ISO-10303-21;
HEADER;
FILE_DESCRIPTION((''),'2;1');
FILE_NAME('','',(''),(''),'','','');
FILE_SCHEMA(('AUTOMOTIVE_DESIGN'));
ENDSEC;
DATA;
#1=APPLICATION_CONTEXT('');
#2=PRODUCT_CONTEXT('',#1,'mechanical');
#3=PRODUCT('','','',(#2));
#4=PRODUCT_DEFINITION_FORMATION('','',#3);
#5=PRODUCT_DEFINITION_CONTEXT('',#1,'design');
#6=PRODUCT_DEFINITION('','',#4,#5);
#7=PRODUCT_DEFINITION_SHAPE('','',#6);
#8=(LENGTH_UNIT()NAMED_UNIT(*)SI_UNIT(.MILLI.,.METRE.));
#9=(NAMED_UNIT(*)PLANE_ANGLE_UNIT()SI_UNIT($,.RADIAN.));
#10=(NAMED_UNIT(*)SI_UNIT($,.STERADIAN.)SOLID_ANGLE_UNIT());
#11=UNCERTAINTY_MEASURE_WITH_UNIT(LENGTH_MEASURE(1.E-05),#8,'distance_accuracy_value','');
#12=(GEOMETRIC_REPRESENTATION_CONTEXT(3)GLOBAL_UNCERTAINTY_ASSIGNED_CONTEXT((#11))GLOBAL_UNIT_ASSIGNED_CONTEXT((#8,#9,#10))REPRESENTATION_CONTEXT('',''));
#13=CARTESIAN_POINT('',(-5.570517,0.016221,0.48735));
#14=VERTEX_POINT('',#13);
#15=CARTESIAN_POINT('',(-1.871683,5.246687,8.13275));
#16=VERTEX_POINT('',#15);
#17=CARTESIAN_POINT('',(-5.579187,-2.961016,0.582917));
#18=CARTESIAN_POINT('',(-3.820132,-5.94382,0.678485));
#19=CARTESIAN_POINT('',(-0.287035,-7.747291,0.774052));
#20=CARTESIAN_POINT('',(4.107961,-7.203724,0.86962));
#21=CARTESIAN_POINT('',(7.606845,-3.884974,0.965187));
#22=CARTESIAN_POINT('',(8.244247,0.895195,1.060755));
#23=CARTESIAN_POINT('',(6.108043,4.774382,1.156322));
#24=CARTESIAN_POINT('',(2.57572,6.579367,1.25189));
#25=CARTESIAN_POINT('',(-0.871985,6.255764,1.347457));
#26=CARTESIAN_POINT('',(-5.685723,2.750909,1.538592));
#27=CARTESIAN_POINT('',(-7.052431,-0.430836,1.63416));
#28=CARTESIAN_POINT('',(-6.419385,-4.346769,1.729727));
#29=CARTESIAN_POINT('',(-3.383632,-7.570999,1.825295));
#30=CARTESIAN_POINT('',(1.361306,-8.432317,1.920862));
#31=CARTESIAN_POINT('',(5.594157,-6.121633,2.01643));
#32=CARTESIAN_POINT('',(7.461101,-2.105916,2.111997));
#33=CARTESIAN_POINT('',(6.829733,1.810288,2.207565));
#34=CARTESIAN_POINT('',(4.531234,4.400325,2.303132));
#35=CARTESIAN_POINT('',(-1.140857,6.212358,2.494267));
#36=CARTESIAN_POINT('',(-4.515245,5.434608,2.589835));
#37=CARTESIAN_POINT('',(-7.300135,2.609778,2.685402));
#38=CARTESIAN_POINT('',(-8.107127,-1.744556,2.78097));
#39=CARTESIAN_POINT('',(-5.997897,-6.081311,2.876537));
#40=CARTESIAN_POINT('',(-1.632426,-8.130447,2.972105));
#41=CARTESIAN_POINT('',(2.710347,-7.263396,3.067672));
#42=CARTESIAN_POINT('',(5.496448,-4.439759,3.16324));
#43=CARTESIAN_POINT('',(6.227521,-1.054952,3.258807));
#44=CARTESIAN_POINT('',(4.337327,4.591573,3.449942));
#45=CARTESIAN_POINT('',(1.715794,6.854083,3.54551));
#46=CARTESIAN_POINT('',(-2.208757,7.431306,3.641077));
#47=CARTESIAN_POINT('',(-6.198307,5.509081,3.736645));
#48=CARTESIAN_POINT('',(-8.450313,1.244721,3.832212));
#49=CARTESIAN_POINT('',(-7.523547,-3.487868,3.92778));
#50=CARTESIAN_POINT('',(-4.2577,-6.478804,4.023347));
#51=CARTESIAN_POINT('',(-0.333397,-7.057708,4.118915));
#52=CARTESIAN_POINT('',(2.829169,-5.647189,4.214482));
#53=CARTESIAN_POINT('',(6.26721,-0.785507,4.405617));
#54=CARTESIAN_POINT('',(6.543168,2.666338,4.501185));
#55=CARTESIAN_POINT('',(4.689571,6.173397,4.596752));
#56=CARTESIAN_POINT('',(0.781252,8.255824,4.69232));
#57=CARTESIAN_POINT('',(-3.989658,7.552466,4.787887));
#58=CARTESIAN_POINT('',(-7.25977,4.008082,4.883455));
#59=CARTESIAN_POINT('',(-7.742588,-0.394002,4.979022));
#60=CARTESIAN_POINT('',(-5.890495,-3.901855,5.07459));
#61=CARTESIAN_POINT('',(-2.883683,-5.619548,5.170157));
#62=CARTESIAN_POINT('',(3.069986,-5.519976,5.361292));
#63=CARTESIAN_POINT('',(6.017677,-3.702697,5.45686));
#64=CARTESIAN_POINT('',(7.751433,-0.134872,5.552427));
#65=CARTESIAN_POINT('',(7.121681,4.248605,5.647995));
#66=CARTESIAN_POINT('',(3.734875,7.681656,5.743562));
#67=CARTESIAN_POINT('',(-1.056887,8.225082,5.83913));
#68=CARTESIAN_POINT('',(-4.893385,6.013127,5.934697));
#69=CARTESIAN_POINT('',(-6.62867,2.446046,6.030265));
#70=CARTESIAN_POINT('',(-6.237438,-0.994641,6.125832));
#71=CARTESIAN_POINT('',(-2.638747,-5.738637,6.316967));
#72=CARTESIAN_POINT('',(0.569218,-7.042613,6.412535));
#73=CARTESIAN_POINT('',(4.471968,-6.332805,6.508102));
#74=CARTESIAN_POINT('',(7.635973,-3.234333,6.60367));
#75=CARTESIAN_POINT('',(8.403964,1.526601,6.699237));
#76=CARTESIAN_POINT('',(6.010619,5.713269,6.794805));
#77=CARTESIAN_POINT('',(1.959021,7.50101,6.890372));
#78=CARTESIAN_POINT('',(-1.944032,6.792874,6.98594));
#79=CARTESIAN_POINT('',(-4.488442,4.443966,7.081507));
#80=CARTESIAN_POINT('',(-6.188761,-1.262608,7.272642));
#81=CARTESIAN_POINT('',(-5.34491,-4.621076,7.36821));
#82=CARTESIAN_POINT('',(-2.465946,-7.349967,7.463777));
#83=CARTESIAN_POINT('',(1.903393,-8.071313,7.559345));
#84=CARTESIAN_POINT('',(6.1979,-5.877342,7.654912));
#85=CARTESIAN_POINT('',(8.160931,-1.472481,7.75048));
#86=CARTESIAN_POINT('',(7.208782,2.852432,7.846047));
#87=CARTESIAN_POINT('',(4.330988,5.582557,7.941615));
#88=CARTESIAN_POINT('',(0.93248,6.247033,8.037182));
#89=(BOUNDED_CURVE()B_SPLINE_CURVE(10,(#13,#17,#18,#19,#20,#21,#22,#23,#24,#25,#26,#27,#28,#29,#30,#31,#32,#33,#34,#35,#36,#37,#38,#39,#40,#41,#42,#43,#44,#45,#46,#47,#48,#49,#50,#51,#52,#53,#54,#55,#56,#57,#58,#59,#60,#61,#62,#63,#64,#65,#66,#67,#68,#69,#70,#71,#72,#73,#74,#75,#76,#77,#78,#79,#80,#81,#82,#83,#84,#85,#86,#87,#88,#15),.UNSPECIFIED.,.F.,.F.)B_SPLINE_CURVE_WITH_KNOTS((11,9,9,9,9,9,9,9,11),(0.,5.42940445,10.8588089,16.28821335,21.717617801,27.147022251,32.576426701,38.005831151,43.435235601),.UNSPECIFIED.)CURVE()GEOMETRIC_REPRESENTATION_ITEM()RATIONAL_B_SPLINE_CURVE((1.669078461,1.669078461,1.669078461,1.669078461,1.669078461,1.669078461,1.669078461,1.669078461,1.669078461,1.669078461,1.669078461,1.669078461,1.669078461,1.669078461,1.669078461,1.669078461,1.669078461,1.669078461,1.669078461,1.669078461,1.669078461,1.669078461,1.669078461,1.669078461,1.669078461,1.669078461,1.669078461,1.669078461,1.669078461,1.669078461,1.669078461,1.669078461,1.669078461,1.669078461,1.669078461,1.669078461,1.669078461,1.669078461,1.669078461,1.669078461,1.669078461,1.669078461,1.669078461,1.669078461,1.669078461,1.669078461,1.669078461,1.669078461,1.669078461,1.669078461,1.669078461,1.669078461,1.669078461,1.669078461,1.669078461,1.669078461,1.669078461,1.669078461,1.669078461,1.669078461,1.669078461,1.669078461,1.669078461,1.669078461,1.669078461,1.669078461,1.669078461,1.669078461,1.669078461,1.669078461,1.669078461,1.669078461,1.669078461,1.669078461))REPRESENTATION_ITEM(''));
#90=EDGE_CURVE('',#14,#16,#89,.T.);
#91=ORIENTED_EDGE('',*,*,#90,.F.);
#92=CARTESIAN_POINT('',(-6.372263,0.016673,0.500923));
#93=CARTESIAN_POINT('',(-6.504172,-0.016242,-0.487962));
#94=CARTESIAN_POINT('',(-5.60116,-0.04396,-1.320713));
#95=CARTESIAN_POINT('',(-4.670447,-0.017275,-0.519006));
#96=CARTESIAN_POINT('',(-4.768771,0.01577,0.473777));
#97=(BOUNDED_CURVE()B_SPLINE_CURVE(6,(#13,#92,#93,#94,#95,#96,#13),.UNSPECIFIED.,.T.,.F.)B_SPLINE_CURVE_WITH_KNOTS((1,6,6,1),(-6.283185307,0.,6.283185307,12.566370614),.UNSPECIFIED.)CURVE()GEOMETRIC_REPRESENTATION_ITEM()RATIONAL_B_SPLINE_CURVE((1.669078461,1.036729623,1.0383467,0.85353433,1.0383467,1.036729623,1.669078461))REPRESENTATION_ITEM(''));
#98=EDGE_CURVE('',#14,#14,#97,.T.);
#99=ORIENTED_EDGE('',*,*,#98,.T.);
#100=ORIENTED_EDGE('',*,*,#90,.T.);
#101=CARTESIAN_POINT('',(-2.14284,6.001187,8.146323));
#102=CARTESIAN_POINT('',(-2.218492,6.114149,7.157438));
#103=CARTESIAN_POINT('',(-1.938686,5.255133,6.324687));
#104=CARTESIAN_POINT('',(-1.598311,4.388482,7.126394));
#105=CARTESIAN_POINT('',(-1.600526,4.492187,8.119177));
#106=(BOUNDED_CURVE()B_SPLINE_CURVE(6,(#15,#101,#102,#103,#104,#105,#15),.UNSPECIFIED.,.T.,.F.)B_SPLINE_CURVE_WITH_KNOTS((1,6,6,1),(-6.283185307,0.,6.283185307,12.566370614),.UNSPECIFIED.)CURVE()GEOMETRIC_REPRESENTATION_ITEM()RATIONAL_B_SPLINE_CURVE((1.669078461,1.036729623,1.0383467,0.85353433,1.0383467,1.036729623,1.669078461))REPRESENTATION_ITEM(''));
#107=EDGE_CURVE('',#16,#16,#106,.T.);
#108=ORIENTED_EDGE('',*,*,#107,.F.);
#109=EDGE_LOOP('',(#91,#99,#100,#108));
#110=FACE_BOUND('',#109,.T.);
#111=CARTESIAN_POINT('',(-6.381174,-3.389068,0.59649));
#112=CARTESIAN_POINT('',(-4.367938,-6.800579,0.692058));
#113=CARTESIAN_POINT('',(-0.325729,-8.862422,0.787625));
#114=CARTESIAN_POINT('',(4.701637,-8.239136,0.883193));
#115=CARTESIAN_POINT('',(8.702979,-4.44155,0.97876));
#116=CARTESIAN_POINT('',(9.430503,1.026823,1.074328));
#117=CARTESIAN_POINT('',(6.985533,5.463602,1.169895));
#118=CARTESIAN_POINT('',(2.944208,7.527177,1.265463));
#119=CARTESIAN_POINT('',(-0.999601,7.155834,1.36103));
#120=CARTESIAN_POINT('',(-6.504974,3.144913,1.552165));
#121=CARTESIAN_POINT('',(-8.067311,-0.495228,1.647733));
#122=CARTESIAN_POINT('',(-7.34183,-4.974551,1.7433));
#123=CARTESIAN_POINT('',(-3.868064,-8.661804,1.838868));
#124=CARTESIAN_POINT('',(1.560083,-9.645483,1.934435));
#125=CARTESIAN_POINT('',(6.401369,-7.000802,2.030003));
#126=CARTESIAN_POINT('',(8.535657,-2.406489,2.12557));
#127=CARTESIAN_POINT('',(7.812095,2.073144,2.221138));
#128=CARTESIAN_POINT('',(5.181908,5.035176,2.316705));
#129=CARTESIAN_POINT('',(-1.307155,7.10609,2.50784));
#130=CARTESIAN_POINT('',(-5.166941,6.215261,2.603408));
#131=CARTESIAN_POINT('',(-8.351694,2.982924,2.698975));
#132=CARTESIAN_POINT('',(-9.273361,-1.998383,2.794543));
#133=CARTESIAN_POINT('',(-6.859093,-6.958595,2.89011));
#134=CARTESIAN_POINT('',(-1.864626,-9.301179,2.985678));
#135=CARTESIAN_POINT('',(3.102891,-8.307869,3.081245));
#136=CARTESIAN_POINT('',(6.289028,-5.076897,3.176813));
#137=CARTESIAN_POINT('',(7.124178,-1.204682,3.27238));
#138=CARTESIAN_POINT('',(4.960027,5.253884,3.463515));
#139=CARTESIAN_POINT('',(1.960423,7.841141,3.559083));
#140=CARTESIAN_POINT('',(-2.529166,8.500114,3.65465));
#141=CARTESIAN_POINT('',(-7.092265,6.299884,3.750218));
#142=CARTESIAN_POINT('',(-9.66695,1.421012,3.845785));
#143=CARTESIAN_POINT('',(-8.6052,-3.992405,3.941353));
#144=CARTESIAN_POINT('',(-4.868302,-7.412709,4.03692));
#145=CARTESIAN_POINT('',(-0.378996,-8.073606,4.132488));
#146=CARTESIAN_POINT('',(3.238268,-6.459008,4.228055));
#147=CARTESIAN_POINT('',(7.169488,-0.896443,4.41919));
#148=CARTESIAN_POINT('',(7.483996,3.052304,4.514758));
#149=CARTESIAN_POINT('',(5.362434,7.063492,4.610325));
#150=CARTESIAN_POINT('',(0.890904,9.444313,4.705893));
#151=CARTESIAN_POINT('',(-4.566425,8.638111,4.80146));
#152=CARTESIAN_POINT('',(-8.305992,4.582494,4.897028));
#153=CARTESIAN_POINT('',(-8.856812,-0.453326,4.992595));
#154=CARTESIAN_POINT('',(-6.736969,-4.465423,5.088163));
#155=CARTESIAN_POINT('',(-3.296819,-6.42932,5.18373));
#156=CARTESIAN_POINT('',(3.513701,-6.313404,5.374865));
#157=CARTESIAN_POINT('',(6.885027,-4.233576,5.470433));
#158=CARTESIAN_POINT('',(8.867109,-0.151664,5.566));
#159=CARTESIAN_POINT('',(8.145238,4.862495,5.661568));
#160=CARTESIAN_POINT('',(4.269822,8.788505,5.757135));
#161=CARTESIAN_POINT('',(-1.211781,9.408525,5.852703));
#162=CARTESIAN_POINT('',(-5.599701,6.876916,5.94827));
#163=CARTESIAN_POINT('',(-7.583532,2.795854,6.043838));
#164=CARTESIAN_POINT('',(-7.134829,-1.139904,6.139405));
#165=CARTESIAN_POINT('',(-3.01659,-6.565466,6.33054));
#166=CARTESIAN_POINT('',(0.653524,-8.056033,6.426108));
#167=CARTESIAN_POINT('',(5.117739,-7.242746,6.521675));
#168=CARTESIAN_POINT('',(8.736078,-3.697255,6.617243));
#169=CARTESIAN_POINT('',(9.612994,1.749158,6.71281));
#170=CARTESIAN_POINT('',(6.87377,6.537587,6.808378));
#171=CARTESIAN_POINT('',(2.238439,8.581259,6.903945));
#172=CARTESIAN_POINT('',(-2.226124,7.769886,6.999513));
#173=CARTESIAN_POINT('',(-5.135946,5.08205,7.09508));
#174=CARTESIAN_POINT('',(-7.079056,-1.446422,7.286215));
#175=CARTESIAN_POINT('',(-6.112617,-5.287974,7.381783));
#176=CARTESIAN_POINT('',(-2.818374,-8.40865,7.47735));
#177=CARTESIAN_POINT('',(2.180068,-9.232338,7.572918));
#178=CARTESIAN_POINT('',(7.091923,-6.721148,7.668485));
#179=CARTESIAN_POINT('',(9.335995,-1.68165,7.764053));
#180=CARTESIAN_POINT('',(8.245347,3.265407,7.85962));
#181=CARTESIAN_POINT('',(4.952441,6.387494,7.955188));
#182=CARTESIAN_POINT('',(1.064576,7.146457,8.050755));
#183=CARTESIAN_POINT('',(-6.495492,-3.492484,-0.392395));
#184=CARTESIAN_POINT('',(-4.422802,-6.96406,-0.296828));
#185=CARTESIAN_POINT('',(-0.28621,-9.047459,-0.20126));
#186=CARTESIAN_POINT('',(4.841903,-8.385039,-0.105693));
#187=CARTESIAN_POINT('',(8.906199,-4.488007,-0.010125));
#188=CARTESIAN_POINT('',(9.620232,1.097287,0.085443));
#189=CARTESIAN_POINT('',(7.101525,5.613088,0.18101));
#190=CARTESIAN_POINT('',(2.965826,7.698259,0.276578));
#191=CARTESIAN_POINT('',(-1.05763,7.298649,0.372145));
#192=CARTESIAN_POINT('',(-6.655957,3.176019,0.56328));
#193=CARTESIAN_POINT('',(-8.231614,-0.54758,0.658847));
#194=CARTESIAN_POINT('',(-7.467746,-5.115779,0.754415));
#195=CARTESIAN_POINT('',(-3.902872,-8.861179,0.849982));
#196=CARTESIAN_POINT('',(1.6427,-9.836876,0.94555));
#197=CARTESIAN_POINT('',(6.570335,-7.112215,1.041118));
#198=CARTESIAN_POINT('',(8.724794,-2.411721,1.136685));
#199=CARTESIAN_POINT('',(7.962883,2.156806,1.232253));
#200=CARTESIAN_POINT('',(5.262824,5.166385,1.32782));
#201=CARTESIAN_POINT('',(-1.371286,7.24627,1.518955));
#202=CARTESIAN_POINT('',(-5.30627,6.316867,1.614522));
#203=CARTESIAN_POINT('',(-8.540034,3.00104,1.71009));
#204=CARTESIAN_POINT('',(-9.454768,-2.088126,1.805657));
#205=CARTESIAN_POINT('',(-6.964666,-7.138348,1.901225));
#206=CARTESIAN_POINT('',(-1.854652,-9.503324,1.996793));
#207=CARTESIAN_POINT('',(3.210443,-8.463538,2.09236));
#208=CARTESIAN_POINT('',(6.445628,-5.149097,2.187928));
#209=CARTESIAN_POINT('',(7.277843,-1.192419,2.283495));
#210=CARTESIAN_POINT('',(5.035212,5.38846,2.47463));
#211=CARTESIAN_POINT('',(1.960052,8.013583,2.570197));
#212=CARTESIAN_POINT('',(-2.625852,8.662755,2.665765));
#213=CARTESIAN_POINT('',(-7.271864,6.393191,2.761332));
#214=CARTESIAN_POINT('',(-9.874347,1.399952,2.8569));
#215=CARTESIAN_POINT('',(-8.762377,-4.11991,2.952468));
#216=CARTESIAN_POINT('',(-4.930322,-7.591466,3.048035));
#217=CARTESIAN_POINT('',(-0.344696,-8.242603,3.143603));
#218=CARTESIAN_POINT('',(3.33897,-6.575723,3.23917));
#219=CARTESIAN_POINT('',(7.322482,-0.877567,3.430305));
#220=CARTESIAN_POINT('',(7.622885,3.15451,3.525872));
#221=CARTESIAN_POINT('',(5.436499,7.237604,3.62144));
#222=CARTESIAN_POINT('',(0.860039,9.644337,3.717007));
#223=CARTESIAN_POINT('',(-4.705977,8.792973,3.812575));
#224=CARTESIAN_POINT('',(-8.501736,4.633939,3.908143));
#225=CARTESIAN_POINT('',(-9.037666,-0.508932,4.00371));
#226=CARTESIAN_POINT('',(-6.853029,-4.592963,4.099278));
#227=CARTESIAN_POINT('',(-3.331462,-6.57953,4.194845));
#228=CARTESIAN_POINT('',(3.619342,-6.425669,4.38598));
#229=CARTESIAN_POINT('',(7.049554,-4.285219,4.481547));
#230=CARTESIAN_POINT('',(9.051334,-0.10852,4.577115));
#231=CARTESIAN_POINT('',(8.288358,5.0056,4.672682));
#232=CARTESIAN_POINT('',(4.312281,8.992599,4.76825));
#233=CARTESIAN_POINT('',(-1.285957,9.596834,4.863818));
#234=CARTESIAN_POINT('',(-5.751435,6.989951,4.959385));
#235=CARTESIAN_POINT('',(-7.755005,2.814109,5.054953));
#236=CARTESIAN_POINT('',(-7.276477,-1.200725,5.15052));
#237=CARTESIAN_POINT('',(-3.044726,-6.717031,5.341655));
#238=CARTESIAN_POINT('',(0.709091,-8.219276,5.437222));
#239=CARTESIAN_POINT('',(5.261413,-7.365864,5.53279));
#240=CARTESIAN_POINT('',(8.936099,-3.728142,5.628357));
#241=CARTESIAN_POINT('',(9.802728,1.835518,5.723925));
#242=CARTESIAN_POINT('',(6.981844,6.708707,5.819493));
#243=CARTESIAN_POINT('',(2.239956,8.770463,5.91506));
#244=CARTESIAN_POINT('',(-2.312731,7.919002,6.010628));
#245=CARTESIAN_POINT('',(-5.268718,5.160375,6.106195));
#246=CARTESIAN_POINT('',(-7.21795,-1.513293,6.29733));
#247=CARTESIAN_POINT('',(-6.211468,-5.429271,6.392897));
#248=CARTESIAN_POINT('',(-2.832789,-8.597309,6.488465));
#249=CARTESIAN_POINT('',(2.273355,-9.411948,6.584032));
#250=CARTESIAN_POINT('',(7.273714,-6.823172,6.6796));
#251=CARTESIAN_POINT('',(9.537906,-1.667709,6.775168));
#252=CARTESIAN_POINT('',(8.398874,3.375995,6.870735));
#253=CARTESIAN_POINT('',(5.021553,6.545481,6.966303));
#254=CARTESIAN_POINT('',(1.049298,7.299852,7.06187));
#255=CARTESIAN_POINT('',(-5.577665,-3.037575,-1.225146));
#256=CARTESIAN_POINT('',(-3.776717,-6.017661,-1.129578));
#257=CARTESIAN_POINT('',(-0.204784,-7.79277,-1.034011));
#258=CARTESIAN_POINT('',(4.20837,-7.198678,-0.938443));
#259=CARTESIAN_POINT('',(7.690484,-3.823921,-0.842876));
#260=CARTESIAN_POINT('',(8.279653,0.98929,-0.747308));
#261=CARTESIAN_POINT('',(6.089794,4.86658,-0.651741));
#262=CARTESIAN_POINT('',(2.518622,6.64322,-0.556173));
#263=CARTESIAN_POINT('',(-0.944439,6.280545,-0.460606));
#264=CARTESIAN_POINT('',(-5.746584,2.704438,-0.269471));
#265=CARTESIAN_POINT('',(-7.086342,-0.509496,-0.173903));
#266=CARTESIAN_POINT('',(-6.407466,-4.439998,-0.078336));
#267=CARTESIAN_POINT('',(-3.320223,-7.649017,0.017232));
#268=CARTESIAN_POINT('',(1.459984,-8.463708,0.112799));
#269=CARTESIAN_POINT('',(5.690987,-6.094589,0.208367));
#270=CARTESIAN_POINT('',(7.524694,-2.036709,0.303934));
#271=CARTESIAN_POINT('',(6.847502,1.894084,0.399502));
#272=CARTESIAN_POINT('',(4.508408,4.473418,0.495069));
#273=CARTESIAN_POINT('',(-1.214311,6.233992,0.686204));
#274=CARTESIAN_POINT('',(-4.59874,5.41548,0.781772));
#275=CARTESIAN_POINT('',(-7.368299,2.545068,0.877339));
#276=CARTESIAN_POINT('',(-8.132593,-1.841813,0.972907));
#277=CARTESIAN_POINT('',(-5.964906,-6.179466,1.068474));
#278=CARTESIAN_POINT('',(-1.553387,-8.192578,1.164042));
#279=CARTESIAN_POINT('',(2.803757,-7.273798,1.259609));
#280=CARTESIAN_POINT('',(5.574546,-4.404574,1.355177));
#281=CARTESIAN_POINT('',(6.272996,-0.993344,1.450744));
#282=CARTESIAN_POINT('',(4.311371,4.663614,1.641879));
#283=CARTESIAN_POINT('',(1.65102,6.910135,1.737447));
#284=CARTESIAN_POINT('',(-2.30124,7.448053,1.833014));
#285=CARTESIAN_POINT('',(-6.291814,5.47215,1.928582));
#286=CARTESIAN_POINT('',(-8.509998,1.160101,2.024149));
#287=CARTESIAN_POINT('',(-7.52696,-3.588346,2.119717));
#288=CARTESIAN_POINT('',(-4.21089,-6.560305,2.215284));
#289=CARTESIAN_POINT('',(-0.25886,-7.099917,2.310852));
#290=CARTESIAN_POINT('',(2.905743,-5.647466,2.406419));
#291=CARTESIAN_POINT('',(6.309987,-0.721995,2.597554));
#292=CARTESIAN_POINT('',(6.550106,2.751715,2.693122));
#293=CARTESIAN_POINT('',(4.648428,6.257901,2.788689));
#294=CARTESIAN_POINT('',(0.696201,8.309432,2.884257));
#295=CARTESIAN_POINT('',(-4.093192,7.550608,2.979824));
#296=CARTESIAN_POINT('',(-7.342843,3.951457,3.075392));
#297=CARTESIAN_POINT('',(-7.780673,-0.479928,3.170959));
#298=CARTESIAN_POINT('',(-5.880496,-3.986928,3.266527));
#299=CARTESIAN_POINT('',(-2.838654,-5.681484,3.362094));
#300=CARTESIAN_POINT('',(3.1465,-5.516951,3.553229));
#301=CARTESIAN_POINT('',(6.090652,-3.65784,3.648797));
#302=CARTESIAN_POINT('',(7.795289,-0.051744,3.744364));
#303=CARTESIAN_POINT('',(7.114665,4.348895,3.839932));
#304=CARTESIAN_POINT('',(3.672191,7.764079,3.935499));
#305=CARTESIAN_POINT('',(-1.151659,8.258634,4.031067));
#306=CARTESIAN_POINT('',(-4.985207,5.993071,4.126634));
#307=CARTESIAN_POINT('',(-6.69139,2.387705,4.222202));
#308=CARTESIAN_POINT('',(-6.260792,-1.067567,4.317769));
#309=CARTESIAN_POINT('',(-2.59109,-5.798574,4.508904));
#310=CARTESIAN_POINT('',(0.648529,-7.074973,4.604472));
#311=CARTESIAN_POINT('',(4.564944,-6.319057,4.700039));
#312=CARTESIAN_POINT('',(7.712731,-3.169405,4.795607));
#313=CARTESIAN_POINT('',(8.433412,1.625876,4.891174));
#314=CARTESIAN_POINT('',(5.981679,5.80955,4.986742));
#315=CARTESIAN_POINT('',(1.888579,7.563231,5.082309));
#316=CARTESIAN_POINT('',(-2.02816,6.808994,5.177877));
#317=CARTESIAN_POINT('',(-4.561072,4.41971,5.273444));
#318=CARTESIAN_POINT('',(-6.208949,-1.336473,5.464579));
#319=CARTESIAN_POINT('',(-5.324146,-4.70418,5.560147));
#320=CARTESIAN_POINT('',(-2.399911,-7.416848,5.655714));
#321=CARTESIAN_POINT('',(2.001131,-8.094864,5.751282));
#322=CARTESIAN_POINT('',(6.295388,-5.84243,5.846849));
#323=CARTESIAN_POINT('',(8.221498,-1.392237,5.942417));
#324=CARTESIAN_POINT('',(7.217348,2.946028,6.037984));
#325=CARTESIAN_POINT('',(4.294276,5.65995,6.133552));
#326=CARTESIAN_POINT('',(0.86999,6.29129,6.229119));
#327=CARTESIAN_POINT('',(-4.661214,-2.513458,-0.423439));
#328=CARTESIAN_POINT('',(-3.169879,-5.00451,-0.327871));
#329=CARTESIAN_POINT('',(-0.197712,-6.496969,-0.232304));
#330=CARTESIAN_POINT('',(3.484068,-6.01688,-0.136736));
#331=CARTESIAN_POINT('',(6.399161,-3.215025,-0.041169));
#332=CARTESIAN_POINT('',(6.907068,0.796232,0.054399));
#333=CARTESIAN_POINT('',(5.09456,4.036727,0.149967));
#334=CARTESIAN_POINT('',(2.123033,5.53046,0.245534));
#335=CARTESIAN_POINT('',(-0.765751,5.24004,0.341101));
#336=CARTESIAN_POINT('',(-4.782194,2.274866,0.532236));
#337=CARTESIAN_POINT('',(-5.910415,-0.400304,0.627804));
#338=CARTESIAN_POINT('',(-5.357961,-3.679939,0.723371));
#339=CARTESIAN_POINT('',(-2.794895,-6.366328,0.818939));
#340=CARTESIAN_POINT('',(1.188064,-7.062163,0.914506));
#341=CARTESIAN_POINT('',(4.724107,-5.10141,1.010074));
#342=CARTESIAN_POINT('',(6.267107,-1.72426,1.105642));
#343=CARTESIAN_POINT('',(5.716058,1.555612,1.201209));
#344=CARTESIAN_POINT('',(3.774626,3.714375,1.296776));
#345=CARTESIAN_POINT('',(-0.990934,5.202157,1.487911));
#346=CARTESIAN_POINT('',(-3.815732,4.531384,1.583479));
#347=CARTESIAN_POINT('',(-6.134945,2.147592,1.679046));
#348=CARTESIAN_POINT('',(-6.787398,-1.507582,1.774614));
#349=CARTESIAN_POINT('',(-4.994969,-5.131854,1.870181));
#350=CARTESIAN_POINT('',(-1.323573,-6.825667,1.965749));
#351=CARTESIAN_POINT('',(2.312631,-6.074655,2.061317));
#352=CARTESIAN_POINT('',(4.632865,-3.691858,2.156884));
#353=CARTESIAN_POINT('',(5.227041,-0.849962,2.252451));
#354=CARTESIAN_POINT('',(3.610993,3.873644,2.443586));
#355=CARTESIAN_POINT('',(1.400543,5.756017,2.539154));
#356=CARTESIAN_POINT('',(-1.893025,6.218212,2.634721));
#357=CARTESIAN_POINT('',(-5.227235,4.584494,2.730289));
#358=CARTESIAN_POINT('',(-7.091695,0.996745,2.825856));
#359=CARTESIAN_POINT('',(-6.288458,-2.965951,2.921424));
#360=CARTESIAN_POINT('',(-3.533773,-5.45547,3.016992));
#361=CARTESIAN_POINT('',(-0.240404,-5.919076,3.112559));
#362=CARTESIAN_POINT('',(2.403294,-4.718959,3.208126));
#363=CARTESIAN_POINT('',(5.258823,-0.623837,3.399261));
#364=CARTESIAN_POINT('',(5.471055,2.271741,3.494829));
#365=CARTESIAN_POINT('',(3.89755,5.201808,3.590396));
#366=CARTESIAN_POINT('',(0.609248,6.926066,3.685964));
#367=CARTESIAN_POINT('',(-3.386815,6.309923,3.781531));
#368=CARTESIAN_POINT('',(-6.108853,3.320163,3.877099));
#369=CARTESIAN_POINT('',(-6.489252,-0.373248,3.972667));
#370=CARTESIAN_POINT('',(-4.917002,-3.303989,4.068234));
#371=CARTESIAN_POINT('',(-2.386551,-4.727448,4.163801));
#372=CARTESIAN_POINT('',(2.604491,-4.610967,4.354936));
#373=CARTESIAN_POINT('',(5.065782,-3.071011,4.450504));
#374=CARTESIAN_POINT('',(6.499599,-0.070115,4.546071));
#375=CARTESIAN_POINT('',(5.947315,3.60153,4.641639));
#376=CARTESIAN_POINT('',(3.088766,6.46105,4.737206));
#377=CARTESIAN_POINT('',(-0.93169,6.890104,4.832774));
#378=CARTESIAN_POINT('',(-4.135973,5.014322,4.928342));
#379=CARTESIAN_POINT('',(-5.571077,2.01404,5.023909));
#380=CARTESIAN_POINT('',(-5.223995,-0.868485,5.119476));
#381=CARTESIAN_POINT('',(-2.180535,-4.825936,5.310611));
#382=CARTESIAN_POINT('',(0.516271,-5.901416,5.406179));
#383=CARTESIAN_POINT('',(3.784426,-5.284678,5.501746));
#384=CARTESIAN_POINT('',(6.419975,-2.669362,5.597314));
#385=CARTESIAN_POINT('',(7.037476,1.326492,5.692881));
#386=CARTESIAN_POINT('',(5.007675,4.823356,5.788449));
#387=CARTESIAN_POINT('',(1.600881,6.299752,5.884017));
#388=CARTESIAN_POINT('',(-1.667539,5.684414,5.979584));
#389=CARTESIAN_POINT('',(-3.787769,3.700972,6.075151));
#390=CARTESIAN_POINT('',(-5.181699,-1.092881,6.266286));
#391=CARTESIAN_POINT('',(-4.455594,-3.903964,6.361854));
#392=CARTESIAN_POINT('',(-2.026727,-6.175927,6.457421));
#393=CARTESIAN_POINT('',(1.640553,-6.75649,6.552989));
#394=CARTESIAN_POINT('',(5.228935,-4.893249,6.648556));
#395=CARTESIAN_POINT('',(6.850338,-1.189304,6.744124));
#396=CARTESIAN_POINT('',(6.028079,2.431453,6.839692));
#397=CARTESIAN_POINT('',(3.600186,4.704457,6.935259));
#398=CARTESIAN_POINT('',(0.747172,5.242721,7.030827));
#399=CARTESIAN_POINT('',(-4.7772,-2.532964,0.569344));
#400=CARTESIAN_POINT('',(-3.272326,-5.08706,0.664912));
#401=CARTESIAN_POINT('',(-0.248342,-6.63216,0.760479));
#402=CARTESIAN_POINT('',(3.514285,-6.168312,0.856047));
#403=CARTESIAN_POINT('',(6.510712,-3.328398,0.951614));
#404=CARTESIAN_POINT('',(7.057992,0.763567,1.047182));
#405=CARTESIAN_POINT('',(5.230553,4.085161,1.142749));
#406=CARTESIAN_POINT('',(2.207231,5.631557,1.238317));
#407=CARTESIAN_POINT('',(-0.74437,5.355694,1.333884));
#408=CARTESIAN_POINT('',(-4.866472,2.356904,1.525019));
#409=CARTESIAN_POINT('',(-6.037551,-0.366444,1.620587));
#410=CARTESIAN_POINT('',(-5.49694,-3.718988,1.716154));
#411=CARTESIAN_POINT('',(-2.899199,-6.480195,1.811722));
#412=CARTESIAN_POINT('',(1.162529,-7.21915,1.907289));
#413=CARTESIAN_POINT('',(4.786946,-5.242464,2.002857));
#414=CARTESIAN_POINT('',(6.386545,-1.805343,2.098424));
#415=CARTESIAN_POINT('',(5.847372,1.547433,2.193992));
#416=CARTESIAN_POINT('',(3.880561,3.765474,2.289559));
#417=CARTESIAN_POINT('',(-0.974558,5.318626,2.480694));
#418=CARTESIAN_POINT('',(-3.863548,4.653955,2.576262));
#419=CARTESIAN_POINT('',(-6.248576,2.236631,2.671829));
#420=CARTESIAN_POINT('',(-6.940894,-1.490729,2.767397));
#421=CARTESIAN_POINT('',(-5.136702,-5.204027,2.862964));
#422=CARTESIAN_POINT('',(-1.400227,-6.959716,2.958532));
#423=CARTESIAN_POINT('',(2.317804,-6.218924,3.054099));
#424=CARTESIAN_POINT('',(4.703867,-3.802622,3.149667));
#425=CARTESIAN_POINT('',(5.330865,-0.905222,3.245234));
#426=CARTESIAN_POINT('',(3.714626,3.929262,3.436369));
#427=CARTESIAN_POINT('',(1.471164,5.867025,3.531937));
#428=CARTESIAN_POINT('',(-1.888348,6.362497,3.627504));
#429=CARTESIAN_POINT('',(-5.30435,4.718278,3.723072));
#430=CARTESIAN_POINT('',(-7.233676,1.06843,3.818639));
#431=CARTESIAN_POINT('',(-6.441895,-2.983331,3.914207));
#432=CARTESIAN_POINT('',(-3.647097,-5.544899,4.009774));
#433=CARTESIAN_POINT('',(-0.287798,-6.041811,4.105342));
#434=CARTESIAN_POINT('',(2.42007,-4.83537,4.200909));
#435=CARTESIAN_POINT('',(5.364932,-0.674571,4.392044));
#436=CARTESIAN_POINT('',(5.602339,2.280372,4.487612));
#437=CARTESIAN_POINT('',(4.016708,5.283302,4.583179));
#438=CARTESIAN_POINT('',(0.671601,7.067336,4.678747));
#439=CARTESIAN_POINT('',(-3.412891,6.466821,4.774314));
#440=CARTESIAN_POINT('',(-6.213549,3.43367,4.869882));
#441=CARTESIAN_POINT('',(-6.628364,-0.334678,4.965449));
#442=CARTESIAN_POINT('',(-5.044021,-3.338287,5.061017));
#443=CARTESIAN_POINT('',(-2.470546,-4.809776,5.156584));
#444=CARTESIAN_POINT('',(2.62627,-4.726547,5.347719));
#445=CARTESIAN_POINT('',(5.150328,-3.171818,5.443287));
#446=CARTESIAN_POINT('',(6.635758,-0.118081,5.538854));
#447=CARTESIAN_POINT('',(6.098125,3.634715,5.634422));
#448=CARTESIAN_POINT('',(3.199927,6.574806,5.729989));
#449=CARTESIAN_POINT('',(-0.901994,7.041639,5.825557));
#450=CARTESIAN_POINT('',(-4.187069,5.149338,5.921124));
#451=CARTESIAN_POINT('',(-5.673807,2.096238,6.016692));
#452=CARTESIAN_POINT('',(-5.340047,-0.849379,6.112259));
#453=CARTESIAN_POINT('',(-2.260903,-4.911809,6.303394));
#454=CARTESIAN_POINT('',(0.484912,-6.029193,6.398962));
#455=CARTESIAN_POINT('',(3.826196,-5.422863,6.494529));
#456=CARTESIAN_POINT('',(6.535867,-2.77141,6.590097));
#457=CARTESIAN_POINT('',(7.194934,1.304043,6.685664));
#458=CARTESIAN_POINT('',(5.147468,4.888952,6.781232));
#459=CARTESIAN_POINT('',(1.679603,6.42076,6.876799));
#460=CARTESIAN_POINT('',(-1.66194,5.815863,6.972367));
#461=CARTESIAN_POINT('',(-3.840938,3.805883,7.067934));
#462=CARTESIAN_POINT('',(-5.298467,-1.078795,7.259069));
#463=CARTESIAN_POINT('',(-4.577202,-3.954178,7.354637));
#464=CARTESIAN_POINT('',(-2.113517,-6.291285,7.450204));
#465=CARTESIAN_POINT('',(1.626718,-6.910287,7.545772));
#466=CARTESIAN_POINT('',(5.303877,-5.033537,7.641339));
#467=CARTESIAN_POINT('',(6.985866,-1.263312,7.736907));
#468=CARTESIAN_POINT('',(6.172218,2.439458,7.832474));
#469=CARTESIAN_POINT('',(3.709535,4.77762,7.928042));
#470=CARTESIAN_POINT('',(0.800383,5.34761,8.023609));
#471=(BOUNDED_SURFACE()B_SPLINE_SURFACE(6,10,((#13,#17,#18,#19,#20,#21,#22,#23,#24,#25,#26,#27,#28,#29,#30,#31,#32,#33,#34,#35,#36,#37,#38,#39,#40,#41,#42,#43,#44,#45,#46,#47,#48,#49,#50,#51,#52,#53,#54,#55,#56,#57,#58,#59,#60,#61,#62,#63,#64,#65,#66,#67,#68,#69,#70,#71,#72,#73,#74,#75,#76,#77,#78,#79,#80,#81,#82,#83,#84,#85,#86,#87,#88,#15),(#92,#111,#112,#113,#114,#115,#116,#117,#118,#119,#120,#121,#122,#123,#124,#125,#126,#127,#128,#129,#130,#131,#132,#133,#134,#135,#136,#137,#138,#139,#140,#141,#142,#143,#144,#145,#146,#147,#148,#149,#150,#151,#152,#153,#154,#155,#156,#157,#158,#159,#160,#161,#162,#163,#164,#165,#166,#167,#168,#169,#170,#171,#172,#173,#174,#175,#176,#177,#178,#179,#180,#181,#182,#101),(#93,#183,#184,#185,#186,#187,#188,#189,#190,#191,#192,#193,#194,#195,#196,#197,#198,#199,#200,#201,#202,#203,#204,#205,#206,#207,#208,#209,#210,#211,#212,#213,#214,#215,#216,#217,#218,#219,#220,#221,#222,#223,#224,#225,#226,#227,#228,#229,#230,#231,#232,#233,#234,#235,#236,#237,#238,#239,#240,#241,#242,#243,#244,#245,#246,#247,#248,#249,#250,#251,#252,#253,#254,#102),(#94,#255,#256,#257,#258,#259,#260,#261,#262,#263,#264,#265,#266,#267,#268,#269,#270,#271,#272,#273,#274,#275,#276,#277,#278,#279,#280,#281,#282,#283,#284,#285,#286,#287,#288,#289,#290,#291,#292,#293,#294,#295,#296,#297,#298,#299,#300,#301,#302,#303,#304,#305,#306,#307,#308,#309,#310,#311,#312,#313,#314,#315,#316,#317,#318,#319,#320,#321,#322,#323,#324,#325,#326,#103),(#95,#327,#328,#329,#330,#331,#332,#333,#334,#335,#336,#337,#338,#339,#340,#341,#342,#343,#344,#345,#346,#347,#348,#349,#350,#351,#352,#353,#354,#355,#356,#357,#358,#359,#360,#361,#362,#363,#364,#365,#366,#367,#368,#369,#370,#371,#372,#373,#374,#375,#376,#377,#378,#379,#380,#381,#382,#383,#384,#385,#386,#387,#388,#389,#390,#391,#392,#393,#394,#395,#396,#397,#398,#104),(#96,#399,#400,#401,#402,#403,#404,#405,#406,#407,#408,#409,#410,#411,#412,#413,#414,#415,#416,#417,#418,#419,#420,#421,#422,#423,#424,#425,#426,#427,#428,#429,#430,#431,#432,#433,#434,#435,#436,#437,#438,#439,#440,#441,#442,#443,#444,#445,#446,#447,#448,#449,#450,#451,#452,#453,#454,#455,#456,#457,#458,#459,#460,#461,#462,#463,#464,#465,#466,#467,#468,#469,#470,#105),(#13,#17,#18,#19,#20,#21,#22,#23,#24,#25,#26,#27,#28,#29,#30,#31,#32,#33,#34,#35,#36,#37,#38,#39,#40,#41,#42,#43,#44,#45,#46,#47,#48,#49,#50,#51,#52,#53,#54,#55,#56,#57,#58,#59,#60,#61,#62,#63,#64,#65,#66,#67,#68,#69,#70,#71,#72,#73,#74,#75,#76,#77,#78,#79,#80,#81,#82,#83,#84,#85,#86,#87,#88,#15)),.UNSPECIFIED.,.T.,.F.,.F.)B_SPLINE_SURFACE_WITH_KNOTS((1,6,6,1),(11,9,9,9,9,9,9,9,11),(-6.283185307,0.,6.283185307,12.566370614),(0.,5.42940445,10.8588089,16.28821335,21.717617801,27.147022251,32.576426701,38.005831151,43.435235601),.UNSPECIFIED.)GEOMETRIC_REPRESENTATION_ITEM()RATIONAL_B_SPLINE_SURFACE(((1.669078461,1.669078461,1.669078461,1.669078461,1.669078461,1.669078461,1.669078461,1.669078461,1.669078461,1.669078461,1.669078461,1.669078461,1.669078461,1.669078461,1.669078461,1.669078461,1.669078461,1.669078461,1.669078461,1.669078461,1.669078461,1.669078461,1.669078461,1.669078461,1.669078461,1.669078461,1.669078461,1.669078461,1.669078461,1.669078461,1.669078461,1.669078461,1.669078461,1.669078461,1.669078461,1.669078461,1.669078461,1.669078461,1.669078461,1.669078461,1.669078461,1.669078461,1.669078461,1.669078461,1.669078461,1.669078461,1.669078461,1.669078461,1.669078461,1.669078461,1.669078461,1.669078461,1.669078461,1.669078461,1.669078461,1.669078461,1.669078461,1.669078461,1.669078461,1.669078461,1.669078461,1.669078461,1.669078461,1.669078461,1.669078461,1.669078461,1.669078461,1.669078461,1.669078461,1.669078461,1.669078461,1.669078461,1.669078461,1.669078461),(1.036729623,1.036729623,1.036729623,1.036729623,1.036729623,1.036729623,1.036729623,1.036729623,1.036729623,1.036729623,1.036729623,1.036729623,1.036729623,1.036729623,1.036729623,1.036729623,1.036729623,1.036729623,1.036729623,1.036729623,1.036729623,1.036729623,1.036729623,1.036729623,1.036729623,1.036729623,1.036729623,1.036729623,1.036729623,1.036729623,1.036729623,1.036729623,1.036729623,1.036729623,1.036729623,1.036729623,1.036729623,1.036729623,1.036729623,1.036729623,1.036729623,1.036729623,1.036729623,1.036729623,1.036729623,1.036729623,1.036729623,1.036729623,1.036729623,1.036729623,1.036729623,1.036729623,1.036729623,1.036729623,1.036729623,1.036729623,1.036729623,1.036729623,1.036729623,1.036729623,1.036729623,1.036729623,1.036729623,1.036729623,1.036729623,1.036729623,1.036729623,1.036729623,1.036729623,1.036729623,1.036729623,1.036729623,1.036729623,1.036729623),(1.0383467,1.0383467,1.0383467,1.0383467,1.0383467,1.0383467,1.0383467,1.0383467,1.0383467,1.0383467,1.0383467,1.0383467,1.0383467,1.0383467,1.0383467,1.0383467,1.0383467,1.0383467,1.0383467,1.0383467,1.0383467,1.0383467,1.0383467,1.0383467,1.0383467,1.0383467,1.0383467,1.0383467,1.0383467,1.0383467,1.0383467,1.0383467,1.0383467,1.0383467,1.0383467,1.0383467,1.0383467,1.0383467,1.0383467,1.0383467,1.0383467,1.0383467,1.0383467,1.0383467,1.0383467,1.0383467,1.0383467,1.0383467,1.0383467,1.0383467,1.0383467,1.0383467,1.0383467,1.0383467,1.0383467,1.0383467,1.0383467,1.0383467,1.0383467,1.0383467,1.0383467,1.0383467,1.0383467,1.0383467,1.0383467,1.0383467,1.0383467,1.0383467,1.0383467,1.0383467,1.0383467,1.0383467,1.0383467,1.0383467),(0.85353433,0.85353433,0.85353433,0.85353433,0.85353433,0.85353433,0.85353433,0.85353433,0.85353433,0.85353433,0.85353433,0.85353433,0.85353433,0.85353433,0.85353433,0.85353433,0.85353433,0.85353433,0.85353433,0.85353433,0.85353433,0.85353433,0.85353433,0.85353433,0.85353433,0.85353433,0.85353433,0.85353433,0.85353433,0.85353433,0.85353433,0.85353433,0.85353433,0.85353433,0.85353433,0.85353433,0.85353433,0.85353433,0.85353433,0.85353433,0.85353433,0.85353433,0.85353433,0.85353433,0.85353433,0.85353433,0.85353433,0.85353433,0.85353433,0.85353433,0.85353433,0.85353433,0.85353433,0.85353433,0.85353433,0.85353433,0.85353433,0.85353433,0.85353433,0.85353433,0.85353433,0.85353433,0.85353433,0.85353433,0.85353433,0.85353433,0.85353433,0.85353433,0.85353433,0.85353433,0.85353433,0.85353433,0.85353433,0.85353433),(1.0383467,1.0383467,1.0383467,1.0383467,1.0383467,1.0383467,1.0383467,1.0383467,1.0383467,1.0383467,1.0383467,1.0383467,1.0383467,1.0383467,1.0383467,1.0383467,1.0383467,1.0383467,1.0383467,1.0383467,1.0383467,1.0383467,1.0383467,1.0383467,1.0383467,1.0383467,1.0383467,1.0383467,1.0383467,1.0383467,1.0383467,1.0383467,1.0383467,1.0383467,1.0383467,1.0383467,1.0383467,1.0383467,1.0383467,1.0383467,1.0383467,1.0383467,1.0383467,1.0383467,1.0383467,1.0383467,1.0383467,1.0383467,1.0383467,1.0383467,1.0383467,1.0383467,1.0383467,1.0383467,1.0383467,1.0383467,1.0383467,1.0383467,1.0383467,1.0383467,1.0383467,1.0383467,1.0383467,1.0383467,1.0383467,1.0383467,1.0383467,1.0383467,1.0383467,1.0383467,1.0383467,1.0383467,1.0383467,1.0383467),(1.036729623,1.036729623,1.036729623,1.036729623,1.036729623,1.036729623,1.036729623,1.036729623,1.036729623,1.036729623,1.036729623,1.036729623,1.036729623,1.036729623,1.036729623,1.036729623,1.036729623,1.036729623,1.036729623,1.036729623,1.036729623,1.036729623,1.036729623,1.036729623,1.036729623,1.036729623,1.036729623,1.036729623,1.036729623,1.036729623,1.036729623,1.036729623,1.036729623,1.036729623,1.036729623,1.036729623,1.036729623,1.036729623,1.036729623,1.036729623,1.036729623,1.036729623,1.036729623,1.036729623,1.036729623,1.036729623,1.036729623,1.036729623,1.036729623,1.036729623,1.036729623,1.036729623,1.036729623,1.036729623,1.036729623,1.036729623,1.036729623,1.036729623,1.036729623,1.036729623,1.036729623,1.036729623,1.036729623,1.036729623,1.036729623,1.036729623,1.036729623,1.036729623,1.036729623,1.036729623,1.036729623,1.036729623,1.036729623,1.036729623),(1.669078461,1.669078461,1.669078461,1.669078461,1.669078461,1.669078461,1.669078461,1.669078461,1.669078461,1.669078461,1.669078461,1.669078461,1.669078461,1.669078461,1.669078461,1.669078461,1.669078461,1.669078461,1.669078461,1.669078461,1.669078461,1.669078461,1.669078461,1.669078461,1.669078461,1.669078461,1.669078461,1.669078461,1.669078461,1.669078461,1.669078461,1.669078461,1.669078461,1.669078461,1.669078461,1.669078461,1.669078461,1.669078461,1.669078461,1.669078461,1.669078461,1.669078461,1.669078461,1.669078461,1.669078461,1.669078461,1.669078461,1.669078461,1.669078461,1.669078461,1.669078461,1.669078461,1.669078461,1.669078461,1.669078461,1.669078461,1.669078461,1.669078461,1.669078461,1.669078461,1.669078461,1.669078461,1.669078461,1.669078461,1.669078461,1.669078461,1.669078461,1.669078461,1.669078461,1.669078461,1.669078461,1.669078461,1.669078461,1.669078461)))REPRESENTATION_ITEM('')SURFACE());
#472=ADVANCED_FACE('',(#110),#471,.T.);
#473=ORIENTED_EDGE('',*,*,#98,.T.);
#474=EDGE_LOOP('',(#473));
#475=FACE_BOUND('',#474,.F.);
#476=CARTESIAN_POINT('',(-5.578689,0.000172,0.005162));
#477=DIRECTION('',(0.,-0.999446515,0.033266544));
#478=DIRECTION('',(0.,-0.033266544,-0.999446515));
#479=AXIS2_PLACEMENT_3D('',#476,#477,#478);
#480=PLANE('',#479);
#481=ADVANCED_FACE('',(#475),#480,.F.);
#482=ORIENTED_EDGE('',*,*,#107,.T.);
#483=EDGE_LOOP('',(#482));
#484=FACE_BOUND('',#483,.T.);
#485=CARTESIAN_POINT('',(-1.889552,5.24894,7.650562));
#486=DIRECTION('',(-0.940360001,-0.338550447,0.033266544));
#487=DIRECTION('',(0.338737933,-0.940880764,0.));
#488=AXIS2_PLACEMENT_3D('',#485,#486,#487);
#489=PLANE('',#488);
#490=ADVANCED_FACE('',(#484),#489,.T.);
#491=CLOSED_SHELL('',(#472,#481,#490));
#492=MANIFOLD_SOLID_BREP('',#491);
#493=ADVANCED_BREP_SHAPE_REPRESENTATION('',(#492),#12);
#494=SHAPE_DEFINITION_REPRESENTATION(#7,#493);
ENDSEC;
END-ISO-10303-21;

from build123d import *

# Parameters (mm, degrees)
SWEEP1_PITCH       = 1.123497428
SWEEP1_HEIGHT      = 7.6454
SWEEP1_RADIUS      = 5.3721
SWEEP1_START_ANGLE = -180
SKETCH2_R          = 0.4826


with BuildPart() as part:
    # Sweep1: sweep along a helix
    with BuildLine() as sweep1_path:
        add(Helix(SWEEP1_PITCH, SWEEP1_HEIGHT, SWEEP1_RADIUS, center=(0, 0, 0), direction=(0, 0, 1), mode=Mode.PRIVATE).rotate(Axis((0, 0, 0), (0, 0, 1)), SWEEP1_START_ANGLE))
    # Sketch2 → Sweep1 (sweep)
    with BuildSketch(Plane(origin=(-1.819733981, 5.054505579, 7.6454), x_dir=(0.037032287292150384, -0.004667898869401979, 0.999303167421207), z_dir=(-0.9403600058959775, -0.3385504340079141, 0.03326654391983416))):
        with Locations((0.001589314, 0.206647084)):
            Circle(SKETCH2_R)
    sweep(path=sweep1_path.line, is_frenet=True)


solid = part.part
